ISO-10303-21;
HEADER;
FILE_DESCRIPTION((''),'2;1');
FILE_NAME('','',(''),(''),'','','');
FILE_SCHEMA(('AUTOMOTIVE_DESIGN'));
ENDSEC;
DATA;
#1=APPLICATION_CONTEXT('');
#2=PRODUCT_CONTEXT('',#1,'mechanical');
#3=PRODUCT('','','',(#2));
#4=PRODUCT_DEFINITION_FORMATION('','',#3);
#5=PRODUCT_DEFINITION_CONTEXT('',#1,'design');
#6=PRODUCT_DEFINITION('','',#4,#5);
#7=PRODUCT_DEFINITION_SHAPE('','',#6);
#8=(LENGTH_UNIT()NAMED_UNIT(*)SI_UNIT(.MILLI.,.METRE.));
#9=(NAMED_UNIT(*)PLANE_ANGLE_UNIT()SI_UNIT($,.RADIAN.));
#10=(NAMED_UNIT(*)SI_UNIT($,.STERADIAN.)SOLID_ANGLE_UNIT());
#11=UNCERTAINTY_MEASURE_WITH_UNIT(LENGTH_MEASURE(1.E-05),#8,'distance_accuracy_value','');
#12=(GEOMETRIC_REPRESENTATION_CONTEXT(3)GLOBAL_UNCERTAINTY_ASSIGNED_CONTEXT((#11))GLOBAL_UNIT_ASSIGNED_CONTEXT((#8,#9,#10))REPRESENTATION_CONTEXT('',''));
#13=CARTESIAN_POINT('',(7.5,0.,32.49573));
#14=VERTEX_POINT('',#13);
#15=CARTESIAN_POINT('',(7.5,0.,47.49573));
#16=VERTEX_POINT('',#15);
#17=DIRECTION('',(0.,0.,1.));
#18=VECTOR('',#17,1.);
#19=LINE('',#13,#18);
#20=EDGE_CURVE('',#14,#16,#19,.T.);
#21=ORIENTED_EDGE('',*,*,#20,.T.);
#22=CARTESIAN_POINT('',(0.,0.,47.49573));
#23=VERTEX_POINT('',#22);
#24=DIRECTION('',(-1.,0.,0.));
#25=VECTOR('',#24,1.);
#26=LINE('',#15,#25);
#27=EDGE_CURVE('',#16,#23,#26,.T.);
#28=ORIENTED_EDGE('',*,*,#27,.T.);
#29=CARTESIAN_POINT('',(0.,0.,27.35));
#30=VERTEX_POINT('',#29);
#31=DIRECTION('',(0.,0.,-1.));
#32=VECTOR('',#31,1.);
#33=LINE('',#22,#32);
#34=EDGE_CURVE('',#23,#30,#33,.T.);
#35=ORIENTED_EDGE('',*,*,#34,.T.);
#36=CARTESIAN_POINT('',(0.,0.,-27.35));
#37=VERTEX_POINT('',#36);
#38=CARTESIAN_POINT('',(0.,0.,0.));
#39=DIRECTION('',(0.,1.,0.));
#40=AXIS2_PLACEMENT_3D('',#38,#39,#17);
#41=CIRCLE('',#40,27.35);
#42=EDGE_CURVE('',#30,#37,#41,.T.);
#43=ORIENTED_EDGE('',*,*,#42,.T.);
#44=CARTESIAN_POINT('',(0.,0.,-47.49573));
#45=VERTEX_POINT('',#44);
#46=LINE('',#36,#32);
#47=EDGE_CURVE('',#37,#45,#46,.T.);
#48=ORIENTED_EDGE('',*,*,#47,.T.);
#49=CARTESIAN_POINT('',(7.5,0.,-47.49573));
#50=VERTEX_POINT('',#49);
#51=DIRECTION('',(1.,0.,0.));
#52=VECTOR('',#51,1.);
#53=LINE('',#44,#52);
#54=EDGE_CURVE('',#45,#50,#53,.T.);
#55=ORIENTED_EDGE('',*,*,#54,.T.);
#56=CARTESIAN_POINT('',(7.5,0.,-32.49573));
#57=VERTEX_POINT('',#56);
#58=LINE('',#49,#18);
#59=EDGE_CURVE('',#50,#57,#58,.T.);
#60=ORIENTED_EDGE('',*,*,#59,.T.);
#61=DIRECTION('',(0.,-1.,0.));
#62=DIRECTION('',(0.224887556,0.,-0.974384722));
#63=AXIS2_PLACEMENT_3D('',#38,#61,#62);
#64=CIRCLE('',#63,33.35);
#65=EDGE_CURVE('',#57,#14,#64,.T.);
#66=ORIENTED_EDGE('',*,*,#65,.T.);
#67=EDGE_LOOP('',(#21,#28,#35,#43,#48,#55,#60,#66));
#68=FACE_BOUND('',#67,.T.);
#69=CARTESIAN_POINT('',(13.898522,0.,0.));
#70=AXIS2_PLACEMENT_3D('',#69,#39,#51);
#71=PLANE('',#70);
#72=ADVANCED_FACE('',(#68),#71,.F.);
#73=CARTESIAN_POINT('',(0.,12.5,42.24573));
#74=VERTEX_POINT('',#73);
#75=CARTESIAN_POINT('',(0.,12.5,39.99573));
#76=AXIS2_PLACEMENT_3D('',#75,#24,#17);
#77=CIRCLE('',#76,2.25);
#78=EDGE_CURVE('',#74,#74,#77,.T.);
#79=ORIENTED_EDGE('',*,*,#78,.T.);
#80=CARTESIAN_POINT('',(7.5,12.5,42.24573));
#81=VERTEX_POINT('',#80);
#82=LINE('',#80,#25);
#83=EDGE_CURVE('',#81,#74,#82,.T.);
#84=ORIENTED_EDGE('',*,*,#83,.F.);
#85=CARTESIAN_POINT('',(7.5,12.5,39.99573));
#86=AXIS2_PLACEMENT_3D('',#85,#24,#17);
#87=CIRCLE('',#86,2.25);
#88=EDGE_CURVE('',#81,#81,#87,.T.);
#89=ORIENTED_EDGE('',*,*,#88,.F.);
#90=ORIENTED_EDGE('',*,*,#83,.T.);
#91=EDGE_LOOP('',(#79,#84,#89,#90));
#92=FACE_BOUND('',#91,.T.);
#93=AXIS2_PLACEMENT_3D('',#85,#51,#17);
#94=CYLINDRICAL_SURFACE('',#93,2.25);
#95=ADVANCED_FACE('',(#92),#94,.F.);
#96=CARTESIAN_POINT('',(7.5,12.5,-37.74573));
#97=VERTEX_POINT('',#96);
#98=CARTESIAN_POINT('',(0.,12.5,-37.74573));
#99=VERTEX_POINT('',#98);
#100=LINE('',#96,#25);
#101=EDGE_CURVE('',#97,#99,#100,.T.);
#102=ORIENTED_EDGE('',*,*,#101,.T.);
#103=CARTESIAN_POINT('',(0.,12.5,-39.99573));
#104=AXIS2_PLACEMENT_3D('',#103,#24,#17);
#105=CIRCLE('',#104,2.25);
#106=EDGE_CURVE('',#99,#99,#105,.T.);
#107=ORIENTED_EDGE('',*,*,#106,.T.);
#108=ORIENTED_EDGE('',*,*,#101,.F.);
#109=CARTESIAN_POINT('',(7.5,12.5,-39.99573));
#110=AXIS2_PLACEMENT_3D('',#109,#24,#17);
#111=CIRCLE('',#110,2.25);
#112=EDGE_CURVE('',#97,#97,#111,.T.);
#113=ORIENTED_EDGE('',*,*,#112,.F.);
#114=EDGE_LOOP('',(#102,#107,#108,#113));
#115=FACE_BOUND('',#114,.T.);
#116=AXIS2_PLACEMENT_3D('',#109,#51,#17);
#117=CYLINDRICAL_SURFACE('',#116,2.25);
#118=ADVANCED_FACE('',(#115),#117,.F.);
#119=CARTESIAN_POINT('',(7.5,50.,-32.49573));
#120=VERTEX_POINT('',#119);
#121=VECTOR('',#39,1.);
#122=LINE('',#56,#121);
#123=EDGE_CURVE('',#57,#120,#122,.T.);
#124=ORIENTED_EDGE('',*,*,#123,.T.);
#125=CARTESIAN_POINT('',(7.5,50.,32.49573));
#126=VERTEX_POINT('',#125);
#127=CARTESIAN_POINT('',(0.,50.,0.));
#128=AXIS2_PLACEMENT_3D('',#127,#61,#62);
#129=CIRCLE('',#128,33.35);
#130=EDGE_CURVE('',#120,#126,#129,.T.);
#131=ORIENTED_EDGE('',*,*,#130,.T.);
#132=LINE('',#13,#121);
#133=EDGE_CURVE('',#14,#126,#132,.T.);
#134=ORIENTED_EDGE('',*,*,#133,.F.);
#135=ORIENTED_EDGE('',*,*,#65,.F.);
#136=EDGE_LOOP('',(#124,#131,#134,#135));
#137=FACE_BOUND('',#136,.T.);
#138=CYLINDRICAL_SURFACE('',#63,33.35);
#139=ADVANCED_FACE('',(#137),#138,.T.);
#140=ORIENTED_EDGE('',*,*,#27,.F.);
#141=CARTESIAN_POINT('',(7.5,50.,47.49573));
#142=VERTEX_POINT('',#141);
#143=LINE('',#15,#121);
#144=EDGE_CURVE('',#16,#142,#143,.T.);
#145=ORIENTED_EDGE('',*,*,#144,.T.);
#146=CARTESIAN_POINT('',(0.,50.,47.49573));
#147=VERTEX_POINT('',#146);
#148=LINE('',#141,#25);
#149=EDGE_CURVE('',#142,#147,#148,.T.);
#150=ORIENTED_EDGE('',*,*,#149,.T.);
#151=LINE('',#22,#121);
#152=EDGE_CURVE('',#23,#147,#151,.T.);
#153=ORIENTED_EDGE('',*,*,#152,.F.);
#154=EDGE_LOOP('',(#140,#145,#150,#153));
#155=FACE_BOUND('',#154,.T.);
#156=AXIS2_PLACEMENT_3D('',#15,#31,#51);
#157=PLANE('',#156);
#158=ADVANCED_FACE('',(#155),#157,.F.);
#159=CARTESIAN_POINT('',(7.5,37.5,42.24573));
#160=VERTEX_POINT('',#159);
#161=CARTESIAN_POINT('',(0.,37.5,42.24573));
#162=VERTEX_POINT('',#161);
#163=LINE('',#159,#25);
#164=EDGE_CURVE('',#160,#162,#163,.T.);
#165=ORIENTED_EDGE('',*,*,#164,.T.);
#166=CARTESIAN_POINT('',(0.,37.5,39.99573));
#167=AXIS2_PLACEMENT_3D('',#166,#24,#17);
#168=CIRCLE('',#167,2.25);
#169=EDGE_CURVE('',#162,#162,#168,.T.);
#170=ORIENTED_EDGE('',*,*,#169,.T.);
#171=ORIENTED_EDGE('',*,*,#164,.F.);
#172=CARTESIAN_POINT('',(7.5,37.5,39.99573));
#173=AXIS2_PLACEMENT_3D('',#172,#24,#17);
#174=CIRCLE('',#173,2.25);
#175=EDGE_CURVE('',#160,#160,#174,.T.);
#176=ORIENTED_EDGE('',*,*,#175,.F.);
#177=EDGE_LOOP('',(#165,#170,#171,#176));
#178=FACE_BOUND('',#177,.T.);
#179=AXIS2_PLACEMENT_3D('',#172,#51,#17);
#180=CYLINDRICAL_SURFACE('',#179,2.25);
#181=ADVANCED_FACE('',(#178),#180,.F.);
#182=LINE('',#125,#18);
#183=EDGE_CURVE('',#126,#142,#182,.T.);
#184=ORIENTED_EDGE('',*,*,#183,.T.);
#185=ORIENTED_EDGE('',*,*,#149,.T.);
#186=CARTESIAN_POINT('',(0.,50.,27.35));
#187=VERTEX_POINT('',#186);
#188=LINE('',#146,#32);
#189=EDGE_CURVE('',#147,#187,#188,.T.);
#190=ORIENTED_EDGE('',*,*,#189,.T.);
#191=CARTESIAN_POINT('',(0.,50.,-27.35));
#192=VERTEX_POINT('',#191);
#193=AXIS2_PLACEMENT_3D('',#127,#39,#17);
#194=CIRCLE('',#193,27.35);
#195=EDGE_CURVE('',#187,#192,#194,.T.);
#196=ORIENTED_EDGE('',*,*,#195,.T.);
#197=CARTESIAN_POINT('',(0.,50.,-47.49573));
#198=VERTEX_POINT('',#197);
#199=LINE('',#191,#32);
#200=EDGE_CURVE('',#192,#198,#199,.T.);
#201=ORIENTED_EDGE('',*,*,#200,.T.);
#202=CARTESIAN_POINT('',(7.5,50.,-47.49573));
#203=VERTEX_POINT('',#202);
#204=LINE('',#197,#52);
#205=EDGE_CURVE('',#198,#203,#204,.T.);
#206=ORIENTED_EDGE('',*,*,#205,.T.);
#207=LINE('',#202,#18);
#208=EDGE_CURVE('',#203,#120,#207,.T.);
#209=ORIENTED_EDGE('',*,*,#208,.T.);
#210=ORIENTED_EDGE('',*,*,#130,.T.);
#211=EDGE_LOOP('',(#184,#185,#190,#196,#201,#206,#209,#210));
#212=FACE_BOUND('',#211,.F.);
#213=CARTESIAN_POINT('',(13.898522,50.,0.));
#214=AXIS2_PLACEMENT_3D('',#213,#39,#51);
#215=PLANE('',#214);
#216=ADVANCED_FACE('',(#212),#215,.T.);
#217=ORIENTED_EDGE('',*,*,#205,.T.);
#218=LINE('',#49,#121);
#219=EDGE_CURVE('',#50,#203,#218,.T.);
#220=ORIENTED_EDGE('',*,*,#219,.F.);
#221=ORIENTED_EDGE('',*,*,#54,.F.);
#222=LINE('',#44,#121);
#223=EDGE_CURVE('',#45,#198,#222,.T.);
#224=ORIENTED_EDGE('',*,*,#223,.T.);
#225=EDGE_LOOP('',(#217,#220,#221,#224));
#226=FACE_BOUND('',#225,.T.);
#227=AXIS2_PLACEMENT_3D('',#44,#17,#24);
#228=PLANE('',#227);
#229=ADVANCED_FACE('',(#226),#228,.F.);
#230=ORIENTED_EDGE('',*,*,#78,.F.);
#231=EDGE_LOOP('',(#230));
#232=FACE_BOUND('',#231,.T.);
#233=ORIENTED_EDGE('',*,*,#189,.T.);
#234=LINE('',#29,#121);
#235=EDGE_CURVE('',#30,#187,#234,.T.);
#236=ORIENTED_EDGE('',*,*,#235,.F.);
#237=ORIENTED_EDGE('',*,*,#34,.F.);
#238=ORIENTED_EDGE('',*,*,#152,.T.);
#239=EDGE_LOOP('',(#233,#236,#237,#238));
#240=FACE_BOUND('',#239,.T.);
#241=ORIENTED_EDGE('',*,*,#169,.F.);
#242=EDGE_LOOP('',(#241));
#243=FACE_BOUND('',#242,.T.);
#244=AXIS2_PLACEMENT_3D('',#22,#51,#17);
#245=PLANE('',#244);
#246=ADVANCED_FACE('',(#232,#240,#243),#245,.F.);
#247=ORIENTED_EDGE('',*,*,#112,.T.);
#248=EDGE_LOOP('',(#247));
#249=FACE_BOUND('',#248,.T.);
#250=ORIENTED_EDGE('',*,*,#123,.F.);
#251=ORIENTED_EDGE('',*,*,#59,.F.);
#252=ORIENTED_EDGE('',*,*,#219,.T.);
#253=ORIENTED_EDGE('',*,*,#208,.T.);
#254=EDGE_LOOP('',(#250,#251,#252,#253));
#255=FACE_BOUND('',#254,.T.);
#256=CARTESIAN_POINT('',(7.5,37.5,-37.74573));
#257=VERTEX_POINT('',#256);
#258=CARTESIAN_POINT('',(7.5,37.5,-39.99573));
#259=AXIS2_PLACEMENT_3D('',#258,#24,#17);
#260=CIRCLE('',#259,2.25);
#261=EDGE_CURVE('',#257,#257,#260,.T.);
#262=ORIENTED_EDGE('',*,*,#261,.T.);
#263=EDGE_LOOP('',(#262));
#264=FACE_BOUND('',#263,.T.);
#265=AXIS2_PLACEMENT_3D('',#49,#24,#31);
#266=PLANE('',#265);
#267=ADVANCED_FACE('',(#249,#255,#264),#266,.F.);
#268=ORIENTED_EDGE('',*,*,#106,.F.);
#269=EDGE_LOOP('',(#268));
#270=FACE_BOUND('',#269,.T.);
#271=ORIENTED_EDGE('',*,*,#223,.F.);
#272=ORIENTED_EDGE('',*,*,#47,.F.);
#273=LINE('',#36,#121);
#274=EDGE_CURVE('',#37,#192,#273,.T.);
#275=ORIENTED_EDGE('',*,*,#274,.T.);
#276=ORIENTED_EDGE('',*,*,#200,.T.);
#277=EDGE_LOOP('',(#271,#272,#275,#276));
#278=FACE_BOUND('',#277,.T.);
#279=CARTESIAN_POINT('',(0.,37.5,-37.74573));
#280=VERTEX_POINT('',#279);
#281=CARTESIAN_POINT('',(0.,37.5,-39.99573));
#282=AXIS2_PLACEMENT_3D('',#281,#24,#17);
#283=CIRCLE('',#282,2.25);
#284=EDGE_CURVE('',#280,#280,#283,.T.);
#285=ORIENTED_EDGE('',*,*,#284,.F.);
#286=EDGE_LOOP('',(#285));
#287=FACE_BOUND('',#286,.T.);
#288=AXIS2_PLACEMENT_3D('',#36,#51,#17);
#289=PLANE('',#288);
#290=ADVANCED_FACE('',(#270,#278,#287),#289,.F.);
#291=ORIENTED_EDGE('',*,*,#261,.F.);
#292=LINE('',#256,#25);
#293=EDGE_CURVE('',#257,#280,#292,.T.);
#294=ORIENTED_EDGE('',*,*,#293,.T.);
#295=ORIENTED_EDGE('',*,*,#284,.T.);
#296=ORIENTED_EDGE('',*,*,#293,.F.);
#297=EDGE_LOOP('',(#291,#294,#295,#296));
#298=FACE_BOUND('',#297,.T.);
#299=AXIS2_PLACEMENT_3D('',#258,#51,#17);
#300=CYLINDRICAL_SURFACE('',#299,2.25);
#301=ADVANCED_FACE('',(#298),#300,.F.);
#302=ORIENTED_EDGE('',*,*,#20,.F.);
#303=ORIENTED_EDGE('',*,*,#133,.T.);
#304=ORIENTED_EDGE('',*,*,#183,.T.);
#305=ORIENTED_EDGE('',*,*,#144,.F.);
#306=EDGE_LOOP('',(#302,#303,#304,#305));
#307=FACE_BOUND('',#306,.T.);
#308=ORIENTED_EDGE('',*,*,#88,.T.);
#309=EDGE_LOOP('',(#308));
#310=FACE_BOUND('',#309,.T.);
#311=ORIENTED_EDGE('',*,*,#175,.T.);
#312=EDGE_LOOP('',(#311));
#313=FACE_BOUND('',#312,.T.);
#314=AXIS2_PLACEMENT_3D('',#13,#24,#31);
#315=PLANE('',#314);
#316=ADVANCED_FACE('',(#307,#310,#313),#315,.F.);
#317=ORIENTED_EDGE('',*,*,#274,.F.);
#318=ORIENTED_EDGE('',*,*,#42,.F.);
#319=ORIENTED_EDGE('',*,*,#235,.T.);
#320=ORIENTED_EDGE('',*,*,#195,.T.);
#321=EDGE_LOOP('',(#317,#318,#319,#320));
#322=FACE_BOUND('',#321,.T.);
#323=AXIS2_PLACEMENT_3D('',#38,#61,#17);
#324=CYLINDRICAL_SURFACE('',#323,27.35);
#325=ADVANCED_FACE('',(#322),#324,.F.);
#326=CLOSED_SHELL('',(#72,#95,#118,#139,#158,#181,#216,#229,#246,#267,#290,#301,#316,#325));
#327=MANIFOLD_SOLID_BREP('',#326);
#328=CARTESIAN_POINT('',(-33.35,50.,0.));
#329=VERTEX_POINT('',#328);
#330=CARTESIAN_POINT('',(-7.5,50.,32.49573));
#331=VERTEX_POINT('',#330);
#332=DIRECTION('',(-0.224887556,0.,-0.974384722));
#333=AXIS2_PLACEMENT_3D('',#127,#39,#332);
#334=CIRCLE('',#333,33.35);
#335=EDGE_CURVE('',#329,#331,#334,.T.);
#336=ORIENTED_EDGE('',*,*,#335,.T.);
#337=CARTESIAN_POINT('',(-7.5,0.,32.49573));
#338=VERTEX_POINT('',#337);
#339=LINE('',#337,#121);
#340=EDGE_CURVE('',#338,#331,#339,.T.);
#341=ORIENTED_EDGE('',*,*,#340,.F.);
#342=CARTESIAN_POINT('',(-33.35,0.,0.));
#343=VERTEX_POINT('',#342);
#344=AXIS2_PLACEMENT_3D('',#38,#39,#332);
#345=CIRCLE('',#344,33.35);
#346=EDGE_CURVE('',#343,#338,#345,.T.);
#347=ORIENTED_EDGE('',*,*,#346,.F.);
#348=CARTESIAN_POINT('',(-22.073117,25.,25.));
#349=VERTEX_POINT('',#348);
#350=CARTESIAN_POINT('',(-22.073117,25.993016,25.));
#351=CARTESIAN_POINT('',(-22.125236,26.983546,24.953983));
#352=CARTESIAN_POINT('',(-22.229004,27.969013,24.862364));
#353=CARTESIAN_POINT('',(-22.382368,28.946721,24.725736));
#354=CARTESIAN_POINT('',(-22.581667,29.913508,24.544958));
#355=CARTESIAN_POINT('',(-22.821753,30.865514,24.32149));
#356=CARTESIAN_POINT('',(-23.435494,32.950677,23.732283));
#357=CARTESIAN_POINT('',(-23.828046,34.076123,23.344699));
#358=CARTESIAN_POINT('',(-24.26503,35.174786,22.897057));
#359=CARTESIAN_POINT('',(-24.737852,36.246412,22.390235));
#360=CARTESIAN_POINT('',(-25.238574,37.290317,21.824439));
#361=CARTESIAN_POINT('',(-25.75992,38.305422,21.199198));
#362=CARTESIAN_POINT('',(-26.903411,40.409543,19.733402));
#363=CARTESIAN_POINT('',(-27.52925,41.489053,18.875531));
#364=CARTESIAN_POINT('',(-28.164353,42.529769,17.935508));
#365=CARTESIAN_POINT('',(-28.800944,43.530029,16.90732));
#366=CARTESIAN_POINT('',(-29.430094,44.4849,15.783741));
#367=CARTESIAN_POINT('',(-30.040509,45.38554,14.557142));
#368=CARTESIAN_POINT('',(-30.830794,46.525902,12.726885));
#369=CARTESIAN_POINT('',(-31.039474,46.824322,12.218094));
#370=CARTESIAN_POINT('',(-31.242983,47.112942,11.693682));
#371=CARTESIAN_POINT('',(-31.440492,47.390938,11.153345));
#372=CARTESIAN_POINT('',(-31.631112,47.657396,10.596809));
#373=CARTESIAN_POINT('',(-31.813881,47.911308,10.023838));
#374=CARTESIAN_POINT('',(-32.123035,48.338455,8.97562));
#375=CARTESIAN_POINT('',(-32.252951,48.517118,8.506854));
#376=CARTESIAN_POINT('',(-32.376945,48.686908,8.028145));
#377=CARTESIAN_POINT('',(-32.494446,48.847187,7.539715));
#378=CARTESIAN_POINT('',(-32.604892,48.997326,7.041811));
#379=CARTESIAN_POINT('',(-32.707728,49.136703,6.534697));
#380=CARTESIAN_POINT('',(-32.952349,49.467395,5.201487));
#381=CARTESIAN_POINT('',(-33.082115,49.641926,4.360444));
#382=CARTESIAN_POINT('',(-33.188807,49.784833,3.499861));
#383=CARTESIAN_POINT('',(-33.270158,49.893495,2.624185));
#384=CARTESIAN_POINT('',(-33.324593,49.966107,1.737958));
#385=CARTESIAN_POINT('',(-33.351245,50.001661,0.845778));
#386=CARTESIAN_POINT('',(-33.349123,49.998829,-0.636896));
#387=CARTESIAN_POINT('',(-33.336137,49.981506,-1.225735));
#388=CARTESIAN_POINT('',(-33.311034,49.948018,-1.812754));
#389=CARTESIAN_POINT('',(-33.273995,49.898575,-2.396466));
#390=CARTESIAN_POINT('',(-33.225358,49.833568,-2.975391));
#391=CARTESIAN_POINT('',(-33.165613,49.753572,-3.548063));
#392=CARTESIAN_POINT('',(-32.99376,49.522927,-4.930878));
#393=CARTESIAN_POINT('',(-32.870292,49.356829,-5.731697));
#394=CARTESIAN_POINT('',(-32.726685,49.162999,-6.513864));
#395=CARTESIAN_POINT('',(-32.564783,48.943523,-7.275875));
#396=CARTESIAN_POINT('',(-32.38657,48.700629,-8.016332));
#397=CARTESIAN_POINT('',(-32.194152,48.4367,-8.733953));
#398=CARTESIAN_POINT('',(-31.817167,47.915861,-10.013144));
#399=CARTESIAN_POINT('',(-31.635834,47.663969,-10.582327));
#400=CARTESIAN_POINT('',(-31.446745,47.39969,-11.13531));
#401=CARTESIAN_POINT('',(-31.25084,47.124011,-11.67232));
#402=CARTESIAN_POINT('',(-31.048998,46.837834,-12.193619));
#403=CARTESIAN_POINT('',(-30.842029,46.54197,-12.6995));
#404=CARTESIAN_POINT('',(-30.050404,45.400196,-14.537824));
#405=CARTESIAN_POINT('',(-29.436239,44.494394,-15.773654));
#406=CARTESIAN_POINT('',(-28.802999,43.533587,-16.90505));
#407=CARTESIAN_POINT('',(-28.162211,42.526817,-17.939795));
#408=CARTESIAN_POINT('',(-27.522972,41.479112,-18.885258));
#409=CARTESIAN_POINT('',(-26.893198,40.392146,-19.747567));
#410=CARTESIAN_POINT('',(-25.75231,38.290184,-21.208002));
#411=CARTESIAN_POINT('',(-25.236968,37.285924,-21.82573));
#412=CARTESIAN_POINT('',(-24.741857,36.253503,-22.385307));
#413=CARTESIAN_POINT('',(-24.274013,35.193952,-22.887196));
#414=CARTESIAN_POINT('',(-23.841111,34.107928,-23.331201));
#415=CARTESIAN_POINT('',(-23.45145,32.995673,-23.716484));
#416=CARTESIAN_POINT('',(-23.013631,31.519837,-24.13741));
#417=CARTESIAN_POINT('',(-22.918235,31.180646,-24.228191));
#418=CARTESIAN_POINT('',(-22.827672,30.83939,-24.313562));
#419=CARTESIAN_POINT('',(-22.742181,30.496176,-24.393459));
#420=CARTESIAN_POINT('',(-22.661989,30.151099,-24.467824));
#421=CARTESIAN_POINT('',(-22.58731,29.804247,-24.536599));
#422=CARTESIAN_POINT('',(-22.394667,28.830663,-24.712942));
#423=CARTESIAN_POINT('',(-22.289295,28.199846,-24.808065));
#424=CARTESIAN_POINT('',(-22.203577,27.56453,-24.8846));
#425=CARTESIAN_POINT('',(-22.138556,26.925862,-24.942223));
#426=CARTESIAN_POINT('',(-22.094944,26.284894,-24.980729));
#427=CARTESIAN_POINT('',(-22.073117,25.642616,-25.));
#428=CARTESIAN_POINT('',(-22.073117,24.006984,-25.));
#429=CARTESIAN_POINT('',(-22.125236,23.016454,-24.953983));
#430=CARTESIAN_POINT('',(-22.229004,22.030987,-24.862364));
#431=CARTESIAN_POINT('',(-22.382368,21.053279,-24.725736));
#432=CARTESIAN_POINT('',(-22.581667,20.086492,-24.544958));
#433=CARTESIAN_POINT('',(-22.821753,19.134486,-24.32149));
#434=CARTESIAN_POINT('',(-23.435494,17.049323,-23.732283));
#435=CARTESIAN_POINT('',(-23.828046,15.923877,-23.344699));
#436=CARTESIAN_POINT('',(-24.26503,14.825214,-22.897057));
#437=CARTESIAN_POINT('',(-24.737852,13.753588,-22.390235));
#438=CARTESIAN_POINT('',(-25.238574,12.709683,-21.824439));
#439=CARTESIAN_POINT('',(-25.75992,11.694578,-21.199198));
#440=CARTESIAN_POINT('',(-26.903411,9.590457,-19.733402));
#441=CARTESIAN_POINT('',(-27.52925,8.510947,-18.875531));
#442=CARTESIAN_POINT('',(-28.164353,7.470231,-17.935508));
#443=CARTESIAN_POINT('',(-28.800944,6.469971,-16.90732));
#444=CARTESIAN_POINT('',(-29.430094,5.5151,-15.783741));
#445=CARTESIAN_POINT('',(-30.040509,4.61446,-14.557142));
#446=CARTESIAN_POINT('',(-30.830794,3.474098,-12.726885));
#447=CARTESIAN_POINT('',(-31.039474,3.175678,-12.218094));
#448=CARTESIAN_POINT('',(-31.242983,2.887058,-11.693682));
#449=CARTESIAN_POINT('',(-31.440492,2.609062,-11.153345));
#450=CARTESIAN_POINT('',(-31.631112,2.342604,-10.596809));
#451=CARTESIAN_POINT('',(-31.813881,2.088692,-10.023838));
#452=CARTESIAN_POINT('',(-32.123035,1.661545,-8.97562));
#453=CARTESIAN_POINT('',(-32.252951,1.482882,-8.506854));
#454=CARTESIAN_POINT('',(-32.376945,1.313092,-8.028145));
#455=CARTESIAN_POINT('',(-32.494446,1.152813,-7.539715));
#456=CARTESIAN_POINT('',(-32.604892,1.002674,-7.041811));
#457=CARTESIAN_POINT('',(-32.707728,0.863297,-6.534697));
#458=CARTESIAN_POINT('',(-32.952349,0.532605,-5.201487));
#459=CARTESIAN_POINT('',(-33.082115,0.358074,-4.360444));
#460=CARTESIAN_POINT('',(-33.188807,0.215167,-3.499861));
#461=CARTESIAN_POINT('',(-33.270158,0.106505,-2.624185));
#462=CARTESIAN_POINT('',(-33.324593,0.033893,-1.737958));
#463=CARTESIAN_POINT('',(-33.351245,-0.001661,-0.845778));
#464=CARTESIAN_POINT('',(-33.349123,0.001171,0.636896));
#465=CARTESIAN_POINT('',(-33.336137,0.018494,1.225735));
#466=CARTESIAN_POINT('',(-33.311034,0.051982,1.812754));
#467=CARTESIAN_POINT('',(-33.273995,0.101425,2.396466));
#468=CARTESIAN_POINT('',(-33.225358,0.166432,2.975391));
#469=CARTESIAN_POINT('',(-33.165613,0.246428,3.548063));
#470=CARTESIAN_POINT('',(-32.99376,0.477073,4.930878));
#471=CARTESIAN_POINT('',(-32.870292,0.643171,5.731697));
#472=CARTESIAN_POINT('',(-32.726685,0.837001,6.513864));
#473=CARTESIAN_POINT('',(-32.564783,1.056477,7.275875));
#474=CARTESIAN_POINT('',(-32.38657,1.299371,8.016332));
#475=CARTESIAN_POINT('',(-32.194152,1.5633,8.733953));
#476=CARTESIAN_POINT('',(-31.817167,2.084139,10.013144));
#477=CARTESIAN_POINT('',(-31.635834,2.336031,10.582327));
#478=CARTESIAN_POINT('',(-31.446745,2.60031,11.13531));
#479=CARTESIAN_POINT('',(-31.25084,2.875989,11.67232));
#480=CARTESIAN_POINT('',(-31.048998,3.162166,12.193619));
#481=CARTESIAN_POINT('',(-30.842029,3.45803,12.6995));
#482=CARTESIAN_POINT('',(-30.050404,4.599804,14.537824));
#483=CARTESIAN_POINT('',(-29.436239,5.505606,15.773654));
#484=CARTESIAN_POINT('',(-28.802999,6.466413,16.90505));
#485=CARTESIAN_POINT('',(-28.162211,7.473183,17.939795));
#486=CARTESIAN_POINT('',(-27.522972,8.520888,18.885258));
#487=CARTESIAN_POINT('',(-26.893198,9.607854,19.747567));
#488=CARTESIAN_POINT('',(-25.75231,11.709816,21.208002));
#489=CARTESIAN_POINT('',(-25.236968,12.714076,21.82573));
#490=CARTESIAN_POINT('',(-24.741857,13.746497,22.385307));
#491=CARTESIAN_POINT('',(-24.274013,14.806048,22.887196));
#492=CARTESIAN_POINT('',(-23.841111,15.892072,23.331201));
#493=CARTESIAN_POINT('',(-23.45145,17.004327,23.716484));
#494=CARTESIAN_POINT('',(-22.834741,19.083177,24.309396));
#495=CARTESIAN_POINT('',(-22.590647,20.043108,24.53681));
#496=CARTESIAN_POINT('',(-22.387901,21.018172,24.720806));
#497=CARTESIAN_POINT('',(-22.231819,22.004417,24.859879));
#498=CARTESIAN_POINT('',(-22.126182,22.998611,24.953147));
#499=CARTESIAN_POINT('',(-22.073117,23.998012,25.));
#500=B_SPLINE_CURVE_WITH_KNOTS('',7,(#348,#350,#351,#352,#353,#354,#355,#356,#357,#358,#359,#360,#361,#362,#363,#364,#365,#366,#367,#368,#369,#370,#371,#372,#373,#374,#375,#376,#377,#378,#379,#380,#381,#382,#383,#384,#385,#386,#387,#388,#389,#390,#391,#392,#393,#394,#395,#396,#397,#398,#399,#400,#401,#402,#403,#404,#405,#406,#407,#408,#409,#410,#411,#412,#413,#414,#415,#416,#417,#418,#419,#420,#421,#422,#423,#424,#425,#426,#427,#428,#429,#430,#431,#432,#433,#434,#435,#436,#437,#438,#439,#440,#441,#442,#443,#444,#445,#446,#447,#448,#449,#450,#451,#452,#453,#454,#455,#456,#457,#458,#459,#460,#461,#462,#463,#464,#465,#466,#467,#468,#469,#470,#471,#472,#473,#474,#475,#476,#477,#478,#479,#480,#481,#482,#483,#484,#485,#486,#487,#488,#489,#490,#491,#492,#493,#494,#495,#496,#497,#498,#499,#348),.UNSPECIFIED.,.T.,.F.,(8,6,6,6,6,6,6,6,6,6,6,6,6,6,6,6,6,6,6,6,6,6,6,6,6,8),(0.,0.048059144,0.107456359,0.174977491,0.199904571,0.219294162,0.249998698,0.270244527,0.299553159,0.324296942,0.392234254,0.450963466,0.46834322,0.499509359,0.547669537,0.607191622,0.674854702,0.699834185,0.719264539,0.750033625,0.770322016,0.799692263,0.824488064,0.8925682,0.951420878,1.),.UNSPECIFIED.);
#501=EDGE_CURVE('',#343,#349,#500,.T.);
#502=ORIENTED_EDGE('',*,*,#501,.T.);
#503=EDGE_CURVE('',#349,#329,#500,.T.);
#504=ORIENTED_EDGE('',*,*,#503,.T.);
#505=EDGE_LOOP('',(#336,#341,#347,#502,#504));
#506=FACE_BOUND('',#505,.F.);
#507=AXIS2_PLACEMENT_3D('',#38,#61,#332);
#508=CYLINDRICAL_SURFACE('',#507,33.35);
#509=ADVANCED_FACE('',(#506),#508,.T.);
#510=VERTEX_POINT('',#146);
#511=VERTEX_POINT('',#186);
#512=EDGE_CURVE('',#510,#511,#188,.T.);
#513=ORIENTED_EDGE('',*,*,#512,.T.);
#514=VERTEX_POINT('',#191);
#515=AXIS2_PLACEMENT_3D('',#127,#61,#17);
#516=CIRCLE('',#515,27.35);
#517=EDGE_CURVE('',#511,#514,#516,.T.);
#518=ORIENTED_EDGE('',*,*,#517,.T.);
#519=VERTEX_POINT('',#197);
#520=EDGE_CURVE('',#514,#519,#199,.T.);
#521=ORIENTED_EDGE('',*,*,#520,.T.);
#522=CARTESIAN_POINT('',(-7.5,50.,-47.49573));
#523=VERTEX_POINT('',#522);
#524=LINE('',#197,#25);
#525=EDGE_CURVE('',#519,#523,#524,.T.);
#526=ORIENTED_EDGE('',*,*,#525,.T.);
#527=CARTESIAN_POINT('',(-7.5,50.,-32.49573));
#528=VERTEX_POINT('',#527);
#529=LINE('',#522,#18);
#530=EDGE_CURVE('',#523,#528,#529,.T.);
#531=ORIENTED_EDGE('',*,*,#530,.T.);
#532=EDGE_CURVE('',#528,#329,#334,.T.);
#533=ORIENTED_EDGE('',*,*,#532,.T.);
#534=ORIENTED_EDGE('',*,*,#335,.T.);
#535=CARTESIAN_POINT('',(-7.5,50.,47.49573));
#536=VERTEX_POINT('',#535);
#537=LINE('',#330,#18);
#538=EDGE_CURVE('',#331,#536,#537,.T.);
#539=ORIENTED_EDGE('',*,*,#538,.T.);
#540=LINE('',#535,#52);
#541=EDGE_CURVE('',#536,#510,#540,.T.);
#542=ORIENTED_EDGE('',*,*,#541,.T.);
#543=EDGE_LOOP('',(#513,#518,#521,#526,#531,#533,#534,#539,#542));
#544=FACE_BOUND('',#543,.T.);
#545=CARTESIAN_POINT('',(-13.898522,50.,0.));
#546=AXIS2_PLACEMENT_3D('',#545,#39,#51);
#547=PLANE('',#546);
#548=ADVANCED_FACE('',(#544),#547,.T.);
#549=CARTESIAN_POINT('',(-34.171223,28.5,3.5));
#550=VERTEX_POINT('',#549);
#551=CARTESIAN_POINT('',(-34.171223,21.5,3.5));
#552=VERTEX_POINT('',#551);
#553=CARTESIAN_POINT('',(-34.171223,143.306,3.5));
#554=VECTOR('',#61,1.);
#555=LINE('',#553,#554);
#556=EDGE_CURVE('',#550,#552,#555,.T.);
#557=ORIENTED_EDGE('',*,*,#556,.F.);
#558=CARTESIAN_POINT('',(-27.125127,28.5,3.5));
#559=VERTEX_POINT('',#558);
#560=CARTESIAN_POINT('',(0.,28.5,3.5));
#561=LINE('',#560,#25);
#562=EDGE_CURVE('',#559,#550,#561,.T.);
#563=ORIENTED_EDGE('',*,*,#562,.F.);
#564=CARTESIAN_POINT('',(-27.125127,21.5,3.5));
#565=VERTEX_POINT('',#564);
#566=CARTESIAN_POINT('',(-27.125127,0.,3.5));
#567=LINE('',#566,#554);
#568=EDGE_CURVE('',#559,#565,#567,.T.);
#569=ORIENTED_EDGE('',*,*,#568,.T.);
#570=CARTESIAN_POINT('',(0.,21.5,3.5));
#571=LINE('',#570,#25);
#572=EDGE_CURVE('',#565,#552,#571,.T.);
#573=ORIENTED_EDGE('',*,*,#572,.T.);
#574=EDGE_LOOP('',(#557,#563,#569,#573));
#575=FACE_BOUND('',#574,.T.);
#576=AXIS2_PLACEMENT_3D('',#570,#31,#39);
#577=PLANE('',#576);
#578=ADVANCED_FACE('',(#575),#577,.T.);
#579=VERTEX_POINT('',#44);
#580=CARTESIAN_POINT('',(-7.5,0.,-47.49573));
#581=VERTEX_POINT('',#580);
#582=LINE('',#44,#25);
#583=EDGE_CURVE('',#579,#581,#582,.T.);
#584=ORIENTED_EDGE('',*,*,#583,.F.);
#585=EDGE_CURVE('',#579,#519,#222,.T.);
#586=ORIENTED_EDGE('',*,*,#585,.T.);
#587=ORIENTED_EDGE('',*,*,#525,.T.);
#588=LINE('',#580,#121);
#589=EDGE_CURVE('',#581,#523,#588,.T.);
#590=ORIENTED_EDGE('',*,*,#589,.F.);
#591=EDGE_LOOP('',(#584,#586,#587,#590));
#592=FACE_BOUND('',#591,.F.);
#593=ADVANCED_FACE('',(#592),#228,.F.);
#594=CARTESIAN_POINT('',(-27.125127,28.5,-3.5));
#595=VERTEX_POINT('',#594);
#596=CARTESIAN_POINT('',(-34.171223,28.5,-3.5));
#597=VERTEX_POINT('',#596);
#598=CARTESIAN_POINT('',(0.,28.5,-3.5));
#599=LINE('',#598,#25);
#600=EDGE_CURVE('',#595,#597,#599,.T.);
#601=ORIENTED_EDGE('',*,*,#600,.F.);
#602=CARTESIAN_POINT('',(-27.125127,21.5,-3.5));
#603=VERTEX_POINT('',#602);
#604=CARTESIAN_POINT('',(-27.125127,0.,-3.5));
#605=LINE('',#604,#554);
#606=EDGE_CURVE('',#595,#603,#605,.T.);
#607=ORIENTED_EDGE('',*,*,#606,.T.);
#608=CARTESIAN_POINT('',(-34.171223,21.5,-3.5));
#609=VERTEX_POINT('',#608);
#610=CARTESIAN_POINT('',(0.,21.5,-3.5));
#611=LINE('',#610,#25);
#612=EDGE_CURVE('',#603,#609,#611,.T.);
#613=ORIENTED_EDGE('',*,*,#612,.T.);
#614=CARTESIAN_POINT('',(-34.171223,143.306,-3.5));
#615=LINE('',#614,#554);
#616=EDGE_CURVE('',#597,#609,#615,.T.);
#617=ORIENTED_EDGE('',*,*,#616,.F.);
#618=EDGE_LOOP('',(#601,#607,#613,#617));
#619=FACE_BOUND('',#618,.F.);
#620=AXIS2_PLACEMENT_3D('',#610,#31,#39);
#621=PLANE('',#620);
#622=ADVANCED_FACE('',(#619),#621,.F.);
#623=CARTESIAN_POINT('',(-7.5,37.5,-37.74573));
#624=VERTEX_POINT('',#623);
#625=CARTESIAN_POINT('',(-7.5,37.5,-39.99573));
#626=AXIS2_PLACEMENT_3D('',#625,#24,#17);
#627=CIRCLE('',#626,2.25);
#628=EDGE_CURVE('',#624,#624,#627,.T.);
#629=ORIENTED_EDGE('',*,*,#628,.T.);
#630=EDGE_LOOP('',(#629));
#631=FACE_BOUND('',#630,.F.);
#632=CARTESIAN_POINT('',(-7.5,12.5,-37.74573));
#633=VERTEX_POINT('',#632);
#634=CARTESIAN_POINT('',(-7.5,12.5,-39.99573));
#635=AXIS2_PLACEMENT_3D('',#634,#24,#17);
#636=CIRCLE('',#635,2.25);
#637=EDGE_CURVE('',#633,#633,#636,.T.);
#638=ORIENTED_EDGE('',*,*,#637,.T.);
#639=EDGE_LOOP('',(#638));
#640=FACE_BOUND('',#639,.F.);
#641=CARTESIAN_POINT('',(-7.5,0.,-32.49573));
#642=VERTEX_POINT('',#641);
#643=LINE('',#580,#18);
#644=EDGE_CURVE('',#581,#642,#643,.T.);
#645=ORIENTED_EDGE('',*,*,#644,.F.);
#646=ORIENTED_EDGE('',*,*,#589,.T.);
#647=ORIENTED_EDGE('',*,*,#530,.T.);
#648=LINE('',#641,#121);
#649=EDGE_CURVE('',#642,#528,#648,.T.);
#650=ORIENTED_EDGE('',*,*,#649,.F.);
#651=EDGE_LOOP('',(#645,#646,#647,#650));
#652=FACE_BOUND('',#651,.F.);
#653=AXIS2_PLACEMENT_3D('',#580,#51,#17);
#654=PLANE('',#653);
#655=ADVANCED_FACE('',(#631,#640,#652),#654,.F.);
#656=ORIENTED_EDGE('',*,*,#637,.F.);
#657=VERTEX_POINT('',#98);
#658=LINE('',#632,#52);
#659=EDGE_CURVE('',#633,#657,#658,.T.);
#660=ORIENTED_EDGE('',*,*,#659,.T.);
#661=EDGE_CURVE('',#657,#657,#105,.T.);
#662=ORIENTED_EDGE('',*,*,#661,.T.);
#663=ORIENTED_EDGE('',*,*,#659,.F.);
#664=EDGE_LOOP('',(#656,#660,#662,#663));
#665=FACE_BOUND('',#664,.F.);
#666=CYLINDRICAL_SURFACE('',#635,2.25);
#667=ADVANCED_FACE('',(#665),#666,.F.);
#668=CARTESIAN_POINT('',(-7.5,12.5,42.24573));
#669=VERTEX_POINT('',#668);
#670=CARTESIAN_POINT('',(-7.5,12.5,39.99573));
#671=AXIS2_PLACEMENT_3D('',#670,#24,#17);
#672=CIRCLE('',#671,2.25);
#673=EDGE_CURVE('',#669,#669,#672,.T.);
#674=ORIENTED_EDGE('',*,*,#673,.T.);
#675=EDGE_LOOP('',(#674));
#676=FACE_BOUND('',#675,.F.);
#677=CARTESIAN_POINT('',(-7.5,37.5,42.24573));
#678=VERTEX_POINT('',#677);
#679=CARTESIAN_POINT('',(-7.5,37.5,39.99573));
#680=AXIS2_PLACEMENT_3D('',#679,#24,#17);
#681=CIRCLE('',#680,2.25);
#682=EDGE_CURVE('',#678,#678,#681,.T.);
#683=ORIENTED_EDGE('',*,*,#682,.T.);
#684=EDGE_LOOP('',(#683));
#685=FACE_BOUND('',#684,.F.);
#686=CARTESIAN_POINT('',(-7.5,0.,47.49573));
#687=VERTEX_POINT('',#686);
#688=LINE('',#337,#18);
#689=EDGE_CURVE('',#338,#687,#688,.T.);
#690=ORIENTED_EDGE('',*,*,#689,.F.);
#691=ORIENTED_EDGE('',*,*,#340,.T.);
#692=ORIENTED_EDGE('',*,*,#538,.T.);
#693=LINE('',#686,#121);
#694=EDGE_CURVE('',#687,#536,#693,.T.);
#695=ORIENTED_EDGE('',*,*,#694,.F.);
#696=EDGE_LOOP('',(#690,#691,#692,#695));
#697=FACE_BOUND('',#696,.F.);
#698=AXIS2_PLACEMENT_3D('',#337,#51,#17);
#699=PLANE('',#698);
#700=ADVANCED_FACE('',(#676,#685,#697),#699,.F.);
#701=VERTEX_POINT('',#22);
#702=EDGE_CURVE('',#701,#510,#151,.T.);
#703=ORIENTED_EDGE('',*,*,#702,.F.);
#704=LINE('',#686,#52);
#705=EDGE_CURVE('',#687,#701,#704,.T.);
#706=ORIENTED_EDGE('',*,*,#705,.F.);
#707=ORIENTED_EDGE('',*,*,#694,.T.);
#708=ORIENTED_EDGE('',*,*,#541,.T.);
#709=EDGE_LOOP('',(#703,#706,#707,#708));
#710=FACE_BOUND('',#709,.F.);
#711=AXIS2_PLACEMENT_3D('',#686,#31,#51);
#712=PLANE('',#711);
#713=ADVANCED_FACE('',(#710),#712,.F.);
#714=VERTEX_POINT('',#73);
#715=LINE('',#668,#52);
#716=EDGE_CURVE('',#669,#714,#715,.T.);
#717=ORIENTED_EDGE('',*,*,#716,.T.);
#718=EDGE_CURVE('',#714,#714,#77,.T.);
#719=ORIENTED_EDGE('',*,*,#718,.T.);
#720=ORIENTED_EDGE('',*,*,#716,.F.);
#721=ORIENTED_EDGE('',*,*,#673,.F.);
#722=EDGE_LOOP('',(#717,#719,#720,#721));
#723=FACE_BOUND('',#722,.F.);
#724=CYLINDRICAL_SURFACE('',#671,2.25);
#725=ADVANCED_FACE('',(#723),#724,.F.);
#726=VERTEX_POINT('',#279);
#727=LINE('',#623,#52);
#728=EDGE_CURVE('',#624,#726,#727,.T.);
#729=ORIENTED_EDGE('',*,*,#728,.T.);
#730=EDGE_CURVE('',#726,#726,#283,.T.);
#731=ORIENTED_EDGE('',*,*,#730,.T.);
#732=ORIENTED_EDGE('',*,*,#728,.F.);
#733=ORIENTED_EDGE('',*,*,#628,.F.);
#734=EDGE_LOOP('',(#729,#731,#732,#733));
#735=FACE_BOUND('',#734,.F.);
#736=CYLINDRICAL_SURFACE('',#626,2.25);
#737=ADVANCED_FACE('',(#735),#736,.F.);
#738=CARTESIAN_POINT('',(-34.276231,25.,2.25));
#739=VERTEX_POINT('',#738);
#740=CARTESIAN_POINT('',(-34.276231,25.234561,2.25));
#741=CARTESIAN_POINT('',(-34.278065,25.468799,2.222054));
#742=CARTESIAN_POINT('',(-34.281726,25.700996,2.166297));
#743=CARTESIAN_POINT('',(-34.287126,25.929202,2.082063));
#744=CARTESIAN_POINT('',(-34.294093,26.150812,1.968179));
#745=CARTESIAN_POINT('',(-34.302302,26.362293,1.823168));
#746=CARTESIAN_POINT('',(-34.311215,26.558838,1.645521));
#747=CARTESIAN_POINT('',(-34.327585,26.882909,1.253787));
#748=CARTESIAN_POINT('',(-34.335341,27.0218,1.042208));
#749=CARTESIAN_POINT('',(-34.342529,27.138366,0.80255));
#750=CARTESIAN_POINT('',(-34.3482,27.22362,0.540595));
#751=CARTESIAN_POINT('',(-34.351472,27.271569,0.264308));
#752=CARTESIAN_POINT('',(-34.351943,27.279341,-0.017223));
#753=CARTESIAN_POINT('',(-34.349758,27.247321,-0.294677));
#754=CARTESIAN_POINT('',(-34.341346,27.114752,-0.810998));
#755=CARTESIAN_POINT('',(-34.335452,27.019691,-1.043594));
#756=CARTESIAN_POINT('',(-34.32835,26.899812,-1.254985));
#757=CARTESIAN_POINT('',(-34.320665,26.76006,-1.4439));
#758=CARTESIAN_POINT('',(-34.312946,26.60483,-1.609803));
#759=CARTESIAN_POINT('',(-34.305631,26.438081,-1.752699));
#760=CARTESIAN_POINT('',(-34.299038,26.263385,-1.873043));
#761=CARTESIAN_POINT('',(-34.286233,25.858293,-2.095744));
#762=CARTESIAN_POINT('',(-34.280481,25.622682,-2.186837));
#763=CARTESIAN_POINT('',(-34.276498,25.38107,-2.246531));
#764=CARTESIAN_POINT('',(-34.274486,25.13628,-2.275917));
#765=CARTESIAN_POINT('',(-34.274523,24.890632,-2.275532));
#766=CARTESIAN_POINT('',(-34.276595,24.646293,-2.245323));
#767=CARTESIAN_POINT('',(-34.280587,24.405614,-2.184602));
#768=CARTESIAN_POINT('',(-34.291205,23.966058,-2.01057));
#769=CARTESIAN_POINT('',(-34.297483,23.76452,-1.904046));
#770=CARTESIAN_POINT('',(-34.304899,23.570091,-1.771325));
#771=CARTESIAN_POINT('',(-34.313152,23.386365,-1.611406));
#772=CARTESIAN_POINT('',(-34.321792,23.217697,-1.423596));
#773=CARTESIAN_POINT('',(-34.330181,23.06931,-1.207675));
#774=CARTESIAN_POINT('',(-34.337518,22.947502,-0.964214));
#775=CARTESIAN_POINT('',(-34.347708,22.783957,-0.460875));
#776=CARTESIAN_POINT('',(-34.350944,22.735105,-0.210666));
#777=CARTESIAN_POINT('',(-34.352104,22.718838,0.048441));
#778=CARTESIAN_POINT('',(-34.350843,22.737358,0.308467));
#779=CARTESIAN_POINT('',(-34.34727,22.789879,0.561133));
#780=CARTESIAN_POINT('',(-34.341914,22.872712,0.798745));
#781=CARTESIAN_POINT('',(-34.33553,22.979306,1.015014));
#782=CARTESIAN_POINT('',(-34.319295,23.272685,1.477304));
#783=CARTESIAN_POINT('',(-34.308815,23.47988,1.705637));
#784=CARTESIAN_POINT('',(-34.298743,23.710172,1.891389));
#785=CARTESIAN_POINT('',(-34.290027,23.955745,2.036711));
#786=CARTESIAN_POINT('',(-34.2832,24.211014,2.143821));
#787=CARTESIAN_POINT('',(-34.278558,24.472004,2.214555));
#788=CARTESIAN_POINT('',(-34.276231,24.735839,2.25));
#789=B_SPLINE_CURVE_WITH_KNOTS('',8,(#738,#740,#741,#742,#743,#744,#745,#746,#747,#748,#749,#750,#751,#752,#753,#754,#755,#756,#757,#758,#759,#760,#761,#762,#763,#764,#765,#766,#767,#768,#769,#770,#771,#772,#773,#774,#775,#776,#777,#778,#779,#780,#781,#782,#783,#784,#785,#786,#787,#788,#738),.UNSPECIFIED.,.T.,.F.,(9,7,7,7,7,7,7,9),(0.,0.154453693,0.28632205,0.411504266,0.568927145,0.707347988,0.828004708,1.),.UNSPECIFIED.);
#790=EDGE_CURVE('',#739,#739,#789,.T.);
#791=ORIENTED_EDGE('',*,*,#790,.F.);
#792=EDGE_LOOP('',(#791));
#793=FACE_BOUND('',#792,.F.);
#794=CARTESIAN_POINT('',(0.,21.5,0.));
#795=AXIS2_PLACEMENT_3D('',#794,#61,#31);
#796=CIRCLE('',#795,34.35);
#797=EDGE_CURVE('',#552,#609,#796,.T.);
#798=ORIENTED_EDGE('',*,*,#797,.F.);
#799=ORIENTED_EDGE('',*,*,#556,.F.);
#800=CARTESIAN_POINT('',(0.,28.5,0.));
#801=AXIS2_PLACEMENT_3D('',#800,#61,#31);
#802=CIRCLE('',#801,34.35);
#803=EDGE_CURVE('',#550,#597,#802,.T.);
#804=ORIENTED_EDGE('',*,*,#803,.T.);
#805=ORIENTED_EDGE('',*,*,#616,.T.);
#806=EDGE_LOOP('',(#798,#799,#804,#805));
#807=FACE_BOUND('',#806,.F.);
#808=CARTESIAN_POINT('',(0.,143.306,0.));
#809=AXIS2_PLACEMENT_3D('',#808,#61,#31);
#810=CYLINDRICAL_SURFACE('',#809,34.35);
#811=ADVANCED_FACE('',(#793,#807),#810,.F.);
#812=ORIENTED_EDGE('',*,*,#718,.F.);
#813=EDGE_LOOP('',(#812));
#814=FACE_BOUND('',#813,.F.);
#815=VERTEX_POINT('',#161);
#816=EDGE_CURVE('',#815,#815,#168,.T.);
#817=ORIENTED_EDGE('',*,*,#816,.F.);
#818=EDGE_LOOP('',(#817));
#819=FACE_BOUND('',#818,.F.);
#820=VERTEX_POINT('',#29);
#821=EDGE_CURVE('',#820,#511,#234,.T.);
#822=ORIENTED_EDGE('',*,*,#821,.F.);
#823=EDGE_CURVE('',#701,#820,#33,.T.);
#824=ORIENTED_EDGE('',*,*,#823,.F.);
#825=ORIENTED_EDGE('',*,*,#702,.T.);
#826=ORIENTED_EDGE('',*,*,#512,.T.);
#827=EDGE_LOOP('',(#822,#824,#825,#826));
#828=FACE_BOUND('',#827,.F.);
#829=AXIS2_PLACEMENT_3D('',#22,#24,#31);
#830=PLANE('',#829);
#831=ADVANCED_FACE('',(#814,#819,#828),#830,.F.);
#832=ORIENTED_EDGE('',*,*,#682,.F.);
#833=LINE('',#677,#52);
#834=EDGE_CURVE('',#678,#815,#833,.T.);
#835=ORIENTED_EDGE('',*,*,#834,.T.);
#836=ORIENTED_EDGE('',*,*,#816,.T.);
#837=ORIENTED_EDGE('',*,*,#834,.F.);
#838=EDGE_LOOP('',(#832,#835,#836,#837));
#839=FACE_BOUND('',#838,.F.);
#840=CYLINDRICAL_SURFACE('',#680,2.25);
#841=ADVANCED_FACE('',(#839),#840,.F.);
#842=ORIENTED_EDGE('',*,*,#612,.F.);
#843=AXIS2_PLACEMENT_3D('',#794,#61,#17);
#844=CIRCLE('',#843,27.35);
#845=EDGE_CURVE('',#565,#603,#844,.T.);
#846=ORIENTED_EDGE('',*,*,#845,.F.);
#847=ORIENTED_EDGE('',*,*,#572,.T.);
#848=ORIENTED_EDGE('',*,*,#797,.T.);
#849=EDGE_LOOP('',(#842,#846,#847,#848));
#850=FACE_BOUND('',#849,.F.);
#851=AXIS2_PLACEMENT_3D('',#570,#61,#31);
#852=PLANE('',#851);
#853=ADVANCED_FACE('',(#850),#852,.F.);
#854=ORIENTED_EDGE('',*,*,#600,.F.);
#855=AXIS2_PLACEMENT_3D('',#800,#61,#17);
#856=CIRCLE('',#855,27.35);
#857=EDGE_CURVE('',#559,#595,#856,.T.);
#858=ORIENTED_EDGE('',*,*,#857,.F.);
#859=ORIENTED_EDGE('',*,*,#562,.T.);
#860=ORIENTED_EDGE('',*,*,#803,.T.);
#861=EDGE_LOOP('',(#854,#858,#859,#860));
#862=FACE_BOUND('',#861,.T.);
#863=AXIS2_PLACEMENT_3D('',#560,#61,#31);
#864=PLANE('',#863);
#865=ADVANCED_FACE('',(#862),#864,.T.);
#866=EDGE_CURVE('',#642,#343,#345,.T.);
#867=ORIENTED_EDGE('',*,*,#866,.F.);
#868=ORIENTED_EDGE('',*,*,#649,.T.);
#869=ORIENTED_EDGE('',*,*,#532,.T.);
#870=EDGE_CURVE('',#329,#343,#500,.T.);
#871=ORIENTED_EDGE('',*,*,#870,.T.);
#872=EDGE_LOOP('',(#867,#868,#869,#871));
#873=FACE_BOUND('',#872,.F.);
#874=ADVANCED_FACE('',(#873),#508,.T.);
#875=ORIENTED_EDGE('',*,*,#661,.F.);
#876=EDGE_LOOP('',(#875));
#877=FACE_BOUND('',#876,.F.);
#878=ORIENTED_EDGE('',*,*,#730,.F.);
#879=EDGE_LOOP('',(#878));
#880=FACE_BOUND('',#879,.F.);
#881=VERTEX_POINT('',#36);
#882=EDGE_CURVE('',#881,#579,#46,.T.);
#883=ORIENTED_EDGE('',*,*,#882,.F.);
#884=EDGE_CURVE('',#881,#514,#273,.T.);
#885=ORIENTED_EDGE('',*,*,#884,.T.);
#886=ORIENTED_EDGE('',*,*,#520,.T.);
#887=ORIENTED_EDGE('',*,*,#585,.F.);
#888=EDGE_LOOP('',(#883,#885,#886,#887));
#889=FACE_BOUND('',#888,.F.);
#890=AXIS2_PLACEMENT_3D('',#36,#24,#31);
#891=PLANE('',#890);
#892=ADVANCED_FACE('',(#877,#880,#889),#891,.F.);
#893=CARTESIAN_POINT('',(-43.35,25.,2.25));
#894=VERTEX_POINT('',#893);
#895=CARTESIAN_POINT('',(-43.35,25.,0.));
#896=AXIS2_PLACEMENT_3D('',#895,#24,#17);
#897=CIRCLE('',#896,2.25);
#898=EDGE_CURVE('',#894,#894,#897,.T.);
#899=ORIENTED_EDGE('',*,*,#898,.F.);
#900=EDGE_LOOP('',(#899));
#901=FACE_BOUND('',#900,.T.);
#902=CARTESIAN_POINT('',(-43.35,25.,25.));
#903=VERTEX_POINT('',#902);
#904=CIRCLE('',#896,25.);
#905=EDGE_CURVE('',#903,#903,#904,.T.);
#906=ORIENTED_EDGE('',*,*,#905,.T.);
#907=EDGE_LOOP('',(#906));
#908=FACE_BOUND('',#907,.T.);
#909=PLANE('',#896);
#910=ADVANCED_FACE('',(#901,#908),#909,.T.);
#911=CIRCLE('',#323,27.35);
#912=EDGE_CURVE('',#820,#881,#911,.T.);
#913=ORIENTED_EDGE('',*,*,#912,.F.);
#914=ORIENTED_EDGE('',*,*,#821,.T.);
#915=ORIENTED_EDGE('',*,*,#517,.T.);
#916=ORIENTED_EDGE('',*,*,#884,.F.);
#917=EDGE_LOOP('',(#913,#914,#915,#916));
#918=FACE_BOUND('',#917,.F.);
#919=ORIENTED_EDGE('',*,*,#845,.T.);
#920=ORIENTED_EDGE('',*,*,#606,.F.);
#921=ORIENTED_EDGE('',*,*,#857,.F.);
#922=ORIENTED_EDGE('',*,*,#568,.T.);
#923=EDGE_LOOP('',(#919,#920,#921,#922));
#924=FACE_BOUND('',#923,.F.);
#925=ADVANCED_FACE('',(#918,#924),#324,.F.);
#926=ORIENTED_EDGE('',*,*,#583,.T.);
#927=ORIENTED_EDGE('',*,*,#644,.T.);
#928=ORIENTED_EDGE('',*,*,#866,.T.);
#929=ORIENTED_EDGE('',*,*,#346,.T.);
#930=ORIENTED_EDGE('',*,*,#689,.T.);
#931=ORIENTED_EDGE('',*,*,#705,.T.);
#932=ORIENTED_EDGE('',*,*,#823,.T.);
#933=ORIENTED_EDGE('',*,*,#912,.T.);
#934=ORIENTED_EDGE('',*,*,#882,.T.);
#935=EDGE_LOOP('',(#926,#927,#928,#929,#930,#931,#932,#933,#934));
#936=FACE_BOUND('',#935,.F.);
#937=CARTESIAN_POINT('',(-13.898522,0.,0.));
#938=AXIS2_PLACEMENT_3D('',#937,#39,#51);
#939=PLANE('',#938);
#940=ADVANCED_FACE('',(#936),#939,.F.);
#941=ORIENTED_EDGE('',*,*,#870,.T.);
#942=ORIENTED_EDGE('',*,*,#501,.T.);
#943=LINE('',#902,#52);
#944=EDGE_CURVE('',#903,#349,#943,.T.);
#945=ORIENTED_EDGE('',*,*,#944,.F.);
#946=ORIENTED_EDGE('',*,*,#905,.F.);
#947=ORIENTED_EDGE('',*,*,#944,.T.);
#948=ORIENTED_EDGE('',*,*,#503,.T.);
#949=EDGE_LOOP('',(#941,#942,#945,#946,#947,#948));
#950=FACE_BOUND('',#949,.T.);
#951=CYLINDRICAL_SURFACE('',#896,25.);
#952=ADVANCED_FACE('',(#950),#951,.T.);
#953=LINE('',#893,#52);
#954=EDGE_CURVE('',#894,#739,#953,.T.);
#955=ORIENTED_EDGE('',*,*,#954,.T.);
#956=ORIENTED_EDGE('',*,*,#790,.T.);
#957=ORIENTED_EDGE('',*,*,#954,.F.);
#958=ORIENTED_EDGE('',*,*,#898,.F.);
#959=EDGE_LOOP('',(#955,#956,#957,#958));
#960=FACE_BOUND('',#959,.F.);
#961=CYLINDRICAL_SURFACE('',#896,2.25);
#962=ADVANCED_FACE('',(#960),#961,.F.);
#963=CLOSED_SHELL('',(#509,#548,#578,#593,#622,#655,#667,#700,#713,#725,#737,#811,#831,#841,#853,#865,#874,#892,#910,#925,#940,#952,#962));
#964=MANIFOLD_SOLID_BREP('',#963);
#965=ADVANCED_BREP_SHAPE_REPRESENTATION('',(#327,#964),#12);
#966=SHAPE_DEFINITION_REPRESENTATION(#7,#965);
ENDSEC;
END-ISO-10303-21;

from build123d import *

# Parameters (mm, degrees)
MAIN_BODY_DEPTH          = 50
SKETCH6_R                = 2.25
CUT_EXTRUDE3_DEPTH       = 74.648264845
BOSS_EXTRUDE2_REACH      = 105.144
BOSS_EXTRUDE2_END_RADIUS = 33.35
SKETCH4_R                = 25
SKETCH5_R                = 2.25
CUT_EXTRUDE2_DEPTH       = 104.14424087
CUT_EXTRUDE5_REACH       = 83.456
CUT_EXTRUDE5_END_RADIUS  = 34.35
SKETCH7_W                = 7
SKETCH7_H                = 7


with BuildPart() as part:
    # Sketch2 → main body (new body)
    with BuildSketch(Plane(origin=(0, 0, 0), x_dir=(1, 0, 0), z_dir=(0, 1, 0))):
        with BuildLine():
            Line((0, 27.35), (0, 47.495730489))
            Line((0, 47.495730489), (-7.5, 47.495730489))
            Line((-7.5, 47.495730489), (-7.5, 32.495730489))
            ThreePointArc((-7.5, 32.495730489), (-33.35, 0), (-7.5, -32.495730489))
            Line((-7.5, -32.495730489), (-7.5, -47.495730489))
            Line((-7.5, -47.495730489), (0, -47.495730489))
            Line((0, -47.495730489), (0, -27.35))
            ThreePointArc((0, -27.35), (-27.35, 0), (0, 27.35))
        make_face()
    extrude(amount=MAIN_BODY_DEPTH)

    # Sketch6 → Cut-Extrude3 (cut, through all)
    with BuildSketch(Plane.ZY.offset(7.5)):
        with Locations((-39.995730489, 37.5)):
            Circle(SKETCH6_R)
        with Locations((-39.995730489, 12.5)):
            Circle(SKETCH6_R)
        with Locations((39.995730489, 37.5)):
            Circle(SKETCH6_R)
        with Locations((39.995730489, 12.5)):
            Circle(SKETCH6_R)
    extrude(amount=-CUT_EXTRUDE3_DEPTH, mode=Mode.SUBTRACT)


with BuildPart() as body_2:
    # Mirror2: mirrored copy
    add(part.part.mirror(Plane(origin=(0, 50, -27.35), x_dir=(0, 0, 1), z_dir=(-1, 0, 0))))


with BuildPart() as part_1:
    add(part.part)

    # Boss-Extrude2: up to this cylinder (the profile starts outside it)
    boss_extrude2_end = Plane(origin=(0, 25, 0), z_dir=(0, -1, 0)) * Cylinder(BOSS_EXTRUDE2_END_RADIUS, 277.988, mode=Mode.PRIVATE)
    # Sketch4 → Boss-Extrude2 (add, up to the surface)
    with BuildSketch(Plane.ZY.offset(43.35), mode=Mode.PRIVATE) as boss_extrude2_sk1:
        with Locations((0, 25)):
            Circle(SKETCH4_R)
    boss_extrude2_tool1 = extrude(boss_extrude2_sk1.sketch, amount=-BOSS_EXTRUDE2_REACH, mode=Mode.PRIVATE) - boss_extrude2_end
    add(boss_extrude2_tool1.solids().sort_by_distance((-43.35, 25, 0))[0])

    # Sketch5 → Cut-Extrude2 (cut, through all)
    with BuildSketch(Plane.ZY.offset(43.35)):
        with Locations((0, 25)):
            Circle(SKETCH5_R)
    extrude(amount=-CUT_EXTRUDE2_DEPTH, mode=Mode.SUBTRACT)

    # Cut-Extrude5: up to this cylinder (the profile starts inside it)
    cut_extrude5_end = Plane(origin=(0, 25, 0), z_dir=(0, -1, 0)) * Cylinder(CUT_EXTRUDE5_END_RADIUS, 236.612, mode=Mode.PRIVATE)
    # Sketch7 → Cut-Extrude5 (cut, up to the surface)
    with BuildSketch(Plane(origin=(0, 0, 0), x_dir=(0, 0, -1), z_dir=(1, 0, 0)), mode=Mode.PRIVATE) as cut_extrude5_sk1:
        with Locations((0, 25)):
            Rectangle(SKETCH7_W, SKETCH7_H)
    cut_extrude5_tool1 = extrude(cut_extrude5_sk1.sketch, amount=-CUT_EXTRUDE5_REACH, mode=Mode.PRIVATE) & cut_extrude5_end
    add(cut_extrude5_tool1.solids().sort_by_distance((0, 25, 0))[0], mode=Mode.SUBTRACT)


solid = Compound([body_2.part, part_1.part])
